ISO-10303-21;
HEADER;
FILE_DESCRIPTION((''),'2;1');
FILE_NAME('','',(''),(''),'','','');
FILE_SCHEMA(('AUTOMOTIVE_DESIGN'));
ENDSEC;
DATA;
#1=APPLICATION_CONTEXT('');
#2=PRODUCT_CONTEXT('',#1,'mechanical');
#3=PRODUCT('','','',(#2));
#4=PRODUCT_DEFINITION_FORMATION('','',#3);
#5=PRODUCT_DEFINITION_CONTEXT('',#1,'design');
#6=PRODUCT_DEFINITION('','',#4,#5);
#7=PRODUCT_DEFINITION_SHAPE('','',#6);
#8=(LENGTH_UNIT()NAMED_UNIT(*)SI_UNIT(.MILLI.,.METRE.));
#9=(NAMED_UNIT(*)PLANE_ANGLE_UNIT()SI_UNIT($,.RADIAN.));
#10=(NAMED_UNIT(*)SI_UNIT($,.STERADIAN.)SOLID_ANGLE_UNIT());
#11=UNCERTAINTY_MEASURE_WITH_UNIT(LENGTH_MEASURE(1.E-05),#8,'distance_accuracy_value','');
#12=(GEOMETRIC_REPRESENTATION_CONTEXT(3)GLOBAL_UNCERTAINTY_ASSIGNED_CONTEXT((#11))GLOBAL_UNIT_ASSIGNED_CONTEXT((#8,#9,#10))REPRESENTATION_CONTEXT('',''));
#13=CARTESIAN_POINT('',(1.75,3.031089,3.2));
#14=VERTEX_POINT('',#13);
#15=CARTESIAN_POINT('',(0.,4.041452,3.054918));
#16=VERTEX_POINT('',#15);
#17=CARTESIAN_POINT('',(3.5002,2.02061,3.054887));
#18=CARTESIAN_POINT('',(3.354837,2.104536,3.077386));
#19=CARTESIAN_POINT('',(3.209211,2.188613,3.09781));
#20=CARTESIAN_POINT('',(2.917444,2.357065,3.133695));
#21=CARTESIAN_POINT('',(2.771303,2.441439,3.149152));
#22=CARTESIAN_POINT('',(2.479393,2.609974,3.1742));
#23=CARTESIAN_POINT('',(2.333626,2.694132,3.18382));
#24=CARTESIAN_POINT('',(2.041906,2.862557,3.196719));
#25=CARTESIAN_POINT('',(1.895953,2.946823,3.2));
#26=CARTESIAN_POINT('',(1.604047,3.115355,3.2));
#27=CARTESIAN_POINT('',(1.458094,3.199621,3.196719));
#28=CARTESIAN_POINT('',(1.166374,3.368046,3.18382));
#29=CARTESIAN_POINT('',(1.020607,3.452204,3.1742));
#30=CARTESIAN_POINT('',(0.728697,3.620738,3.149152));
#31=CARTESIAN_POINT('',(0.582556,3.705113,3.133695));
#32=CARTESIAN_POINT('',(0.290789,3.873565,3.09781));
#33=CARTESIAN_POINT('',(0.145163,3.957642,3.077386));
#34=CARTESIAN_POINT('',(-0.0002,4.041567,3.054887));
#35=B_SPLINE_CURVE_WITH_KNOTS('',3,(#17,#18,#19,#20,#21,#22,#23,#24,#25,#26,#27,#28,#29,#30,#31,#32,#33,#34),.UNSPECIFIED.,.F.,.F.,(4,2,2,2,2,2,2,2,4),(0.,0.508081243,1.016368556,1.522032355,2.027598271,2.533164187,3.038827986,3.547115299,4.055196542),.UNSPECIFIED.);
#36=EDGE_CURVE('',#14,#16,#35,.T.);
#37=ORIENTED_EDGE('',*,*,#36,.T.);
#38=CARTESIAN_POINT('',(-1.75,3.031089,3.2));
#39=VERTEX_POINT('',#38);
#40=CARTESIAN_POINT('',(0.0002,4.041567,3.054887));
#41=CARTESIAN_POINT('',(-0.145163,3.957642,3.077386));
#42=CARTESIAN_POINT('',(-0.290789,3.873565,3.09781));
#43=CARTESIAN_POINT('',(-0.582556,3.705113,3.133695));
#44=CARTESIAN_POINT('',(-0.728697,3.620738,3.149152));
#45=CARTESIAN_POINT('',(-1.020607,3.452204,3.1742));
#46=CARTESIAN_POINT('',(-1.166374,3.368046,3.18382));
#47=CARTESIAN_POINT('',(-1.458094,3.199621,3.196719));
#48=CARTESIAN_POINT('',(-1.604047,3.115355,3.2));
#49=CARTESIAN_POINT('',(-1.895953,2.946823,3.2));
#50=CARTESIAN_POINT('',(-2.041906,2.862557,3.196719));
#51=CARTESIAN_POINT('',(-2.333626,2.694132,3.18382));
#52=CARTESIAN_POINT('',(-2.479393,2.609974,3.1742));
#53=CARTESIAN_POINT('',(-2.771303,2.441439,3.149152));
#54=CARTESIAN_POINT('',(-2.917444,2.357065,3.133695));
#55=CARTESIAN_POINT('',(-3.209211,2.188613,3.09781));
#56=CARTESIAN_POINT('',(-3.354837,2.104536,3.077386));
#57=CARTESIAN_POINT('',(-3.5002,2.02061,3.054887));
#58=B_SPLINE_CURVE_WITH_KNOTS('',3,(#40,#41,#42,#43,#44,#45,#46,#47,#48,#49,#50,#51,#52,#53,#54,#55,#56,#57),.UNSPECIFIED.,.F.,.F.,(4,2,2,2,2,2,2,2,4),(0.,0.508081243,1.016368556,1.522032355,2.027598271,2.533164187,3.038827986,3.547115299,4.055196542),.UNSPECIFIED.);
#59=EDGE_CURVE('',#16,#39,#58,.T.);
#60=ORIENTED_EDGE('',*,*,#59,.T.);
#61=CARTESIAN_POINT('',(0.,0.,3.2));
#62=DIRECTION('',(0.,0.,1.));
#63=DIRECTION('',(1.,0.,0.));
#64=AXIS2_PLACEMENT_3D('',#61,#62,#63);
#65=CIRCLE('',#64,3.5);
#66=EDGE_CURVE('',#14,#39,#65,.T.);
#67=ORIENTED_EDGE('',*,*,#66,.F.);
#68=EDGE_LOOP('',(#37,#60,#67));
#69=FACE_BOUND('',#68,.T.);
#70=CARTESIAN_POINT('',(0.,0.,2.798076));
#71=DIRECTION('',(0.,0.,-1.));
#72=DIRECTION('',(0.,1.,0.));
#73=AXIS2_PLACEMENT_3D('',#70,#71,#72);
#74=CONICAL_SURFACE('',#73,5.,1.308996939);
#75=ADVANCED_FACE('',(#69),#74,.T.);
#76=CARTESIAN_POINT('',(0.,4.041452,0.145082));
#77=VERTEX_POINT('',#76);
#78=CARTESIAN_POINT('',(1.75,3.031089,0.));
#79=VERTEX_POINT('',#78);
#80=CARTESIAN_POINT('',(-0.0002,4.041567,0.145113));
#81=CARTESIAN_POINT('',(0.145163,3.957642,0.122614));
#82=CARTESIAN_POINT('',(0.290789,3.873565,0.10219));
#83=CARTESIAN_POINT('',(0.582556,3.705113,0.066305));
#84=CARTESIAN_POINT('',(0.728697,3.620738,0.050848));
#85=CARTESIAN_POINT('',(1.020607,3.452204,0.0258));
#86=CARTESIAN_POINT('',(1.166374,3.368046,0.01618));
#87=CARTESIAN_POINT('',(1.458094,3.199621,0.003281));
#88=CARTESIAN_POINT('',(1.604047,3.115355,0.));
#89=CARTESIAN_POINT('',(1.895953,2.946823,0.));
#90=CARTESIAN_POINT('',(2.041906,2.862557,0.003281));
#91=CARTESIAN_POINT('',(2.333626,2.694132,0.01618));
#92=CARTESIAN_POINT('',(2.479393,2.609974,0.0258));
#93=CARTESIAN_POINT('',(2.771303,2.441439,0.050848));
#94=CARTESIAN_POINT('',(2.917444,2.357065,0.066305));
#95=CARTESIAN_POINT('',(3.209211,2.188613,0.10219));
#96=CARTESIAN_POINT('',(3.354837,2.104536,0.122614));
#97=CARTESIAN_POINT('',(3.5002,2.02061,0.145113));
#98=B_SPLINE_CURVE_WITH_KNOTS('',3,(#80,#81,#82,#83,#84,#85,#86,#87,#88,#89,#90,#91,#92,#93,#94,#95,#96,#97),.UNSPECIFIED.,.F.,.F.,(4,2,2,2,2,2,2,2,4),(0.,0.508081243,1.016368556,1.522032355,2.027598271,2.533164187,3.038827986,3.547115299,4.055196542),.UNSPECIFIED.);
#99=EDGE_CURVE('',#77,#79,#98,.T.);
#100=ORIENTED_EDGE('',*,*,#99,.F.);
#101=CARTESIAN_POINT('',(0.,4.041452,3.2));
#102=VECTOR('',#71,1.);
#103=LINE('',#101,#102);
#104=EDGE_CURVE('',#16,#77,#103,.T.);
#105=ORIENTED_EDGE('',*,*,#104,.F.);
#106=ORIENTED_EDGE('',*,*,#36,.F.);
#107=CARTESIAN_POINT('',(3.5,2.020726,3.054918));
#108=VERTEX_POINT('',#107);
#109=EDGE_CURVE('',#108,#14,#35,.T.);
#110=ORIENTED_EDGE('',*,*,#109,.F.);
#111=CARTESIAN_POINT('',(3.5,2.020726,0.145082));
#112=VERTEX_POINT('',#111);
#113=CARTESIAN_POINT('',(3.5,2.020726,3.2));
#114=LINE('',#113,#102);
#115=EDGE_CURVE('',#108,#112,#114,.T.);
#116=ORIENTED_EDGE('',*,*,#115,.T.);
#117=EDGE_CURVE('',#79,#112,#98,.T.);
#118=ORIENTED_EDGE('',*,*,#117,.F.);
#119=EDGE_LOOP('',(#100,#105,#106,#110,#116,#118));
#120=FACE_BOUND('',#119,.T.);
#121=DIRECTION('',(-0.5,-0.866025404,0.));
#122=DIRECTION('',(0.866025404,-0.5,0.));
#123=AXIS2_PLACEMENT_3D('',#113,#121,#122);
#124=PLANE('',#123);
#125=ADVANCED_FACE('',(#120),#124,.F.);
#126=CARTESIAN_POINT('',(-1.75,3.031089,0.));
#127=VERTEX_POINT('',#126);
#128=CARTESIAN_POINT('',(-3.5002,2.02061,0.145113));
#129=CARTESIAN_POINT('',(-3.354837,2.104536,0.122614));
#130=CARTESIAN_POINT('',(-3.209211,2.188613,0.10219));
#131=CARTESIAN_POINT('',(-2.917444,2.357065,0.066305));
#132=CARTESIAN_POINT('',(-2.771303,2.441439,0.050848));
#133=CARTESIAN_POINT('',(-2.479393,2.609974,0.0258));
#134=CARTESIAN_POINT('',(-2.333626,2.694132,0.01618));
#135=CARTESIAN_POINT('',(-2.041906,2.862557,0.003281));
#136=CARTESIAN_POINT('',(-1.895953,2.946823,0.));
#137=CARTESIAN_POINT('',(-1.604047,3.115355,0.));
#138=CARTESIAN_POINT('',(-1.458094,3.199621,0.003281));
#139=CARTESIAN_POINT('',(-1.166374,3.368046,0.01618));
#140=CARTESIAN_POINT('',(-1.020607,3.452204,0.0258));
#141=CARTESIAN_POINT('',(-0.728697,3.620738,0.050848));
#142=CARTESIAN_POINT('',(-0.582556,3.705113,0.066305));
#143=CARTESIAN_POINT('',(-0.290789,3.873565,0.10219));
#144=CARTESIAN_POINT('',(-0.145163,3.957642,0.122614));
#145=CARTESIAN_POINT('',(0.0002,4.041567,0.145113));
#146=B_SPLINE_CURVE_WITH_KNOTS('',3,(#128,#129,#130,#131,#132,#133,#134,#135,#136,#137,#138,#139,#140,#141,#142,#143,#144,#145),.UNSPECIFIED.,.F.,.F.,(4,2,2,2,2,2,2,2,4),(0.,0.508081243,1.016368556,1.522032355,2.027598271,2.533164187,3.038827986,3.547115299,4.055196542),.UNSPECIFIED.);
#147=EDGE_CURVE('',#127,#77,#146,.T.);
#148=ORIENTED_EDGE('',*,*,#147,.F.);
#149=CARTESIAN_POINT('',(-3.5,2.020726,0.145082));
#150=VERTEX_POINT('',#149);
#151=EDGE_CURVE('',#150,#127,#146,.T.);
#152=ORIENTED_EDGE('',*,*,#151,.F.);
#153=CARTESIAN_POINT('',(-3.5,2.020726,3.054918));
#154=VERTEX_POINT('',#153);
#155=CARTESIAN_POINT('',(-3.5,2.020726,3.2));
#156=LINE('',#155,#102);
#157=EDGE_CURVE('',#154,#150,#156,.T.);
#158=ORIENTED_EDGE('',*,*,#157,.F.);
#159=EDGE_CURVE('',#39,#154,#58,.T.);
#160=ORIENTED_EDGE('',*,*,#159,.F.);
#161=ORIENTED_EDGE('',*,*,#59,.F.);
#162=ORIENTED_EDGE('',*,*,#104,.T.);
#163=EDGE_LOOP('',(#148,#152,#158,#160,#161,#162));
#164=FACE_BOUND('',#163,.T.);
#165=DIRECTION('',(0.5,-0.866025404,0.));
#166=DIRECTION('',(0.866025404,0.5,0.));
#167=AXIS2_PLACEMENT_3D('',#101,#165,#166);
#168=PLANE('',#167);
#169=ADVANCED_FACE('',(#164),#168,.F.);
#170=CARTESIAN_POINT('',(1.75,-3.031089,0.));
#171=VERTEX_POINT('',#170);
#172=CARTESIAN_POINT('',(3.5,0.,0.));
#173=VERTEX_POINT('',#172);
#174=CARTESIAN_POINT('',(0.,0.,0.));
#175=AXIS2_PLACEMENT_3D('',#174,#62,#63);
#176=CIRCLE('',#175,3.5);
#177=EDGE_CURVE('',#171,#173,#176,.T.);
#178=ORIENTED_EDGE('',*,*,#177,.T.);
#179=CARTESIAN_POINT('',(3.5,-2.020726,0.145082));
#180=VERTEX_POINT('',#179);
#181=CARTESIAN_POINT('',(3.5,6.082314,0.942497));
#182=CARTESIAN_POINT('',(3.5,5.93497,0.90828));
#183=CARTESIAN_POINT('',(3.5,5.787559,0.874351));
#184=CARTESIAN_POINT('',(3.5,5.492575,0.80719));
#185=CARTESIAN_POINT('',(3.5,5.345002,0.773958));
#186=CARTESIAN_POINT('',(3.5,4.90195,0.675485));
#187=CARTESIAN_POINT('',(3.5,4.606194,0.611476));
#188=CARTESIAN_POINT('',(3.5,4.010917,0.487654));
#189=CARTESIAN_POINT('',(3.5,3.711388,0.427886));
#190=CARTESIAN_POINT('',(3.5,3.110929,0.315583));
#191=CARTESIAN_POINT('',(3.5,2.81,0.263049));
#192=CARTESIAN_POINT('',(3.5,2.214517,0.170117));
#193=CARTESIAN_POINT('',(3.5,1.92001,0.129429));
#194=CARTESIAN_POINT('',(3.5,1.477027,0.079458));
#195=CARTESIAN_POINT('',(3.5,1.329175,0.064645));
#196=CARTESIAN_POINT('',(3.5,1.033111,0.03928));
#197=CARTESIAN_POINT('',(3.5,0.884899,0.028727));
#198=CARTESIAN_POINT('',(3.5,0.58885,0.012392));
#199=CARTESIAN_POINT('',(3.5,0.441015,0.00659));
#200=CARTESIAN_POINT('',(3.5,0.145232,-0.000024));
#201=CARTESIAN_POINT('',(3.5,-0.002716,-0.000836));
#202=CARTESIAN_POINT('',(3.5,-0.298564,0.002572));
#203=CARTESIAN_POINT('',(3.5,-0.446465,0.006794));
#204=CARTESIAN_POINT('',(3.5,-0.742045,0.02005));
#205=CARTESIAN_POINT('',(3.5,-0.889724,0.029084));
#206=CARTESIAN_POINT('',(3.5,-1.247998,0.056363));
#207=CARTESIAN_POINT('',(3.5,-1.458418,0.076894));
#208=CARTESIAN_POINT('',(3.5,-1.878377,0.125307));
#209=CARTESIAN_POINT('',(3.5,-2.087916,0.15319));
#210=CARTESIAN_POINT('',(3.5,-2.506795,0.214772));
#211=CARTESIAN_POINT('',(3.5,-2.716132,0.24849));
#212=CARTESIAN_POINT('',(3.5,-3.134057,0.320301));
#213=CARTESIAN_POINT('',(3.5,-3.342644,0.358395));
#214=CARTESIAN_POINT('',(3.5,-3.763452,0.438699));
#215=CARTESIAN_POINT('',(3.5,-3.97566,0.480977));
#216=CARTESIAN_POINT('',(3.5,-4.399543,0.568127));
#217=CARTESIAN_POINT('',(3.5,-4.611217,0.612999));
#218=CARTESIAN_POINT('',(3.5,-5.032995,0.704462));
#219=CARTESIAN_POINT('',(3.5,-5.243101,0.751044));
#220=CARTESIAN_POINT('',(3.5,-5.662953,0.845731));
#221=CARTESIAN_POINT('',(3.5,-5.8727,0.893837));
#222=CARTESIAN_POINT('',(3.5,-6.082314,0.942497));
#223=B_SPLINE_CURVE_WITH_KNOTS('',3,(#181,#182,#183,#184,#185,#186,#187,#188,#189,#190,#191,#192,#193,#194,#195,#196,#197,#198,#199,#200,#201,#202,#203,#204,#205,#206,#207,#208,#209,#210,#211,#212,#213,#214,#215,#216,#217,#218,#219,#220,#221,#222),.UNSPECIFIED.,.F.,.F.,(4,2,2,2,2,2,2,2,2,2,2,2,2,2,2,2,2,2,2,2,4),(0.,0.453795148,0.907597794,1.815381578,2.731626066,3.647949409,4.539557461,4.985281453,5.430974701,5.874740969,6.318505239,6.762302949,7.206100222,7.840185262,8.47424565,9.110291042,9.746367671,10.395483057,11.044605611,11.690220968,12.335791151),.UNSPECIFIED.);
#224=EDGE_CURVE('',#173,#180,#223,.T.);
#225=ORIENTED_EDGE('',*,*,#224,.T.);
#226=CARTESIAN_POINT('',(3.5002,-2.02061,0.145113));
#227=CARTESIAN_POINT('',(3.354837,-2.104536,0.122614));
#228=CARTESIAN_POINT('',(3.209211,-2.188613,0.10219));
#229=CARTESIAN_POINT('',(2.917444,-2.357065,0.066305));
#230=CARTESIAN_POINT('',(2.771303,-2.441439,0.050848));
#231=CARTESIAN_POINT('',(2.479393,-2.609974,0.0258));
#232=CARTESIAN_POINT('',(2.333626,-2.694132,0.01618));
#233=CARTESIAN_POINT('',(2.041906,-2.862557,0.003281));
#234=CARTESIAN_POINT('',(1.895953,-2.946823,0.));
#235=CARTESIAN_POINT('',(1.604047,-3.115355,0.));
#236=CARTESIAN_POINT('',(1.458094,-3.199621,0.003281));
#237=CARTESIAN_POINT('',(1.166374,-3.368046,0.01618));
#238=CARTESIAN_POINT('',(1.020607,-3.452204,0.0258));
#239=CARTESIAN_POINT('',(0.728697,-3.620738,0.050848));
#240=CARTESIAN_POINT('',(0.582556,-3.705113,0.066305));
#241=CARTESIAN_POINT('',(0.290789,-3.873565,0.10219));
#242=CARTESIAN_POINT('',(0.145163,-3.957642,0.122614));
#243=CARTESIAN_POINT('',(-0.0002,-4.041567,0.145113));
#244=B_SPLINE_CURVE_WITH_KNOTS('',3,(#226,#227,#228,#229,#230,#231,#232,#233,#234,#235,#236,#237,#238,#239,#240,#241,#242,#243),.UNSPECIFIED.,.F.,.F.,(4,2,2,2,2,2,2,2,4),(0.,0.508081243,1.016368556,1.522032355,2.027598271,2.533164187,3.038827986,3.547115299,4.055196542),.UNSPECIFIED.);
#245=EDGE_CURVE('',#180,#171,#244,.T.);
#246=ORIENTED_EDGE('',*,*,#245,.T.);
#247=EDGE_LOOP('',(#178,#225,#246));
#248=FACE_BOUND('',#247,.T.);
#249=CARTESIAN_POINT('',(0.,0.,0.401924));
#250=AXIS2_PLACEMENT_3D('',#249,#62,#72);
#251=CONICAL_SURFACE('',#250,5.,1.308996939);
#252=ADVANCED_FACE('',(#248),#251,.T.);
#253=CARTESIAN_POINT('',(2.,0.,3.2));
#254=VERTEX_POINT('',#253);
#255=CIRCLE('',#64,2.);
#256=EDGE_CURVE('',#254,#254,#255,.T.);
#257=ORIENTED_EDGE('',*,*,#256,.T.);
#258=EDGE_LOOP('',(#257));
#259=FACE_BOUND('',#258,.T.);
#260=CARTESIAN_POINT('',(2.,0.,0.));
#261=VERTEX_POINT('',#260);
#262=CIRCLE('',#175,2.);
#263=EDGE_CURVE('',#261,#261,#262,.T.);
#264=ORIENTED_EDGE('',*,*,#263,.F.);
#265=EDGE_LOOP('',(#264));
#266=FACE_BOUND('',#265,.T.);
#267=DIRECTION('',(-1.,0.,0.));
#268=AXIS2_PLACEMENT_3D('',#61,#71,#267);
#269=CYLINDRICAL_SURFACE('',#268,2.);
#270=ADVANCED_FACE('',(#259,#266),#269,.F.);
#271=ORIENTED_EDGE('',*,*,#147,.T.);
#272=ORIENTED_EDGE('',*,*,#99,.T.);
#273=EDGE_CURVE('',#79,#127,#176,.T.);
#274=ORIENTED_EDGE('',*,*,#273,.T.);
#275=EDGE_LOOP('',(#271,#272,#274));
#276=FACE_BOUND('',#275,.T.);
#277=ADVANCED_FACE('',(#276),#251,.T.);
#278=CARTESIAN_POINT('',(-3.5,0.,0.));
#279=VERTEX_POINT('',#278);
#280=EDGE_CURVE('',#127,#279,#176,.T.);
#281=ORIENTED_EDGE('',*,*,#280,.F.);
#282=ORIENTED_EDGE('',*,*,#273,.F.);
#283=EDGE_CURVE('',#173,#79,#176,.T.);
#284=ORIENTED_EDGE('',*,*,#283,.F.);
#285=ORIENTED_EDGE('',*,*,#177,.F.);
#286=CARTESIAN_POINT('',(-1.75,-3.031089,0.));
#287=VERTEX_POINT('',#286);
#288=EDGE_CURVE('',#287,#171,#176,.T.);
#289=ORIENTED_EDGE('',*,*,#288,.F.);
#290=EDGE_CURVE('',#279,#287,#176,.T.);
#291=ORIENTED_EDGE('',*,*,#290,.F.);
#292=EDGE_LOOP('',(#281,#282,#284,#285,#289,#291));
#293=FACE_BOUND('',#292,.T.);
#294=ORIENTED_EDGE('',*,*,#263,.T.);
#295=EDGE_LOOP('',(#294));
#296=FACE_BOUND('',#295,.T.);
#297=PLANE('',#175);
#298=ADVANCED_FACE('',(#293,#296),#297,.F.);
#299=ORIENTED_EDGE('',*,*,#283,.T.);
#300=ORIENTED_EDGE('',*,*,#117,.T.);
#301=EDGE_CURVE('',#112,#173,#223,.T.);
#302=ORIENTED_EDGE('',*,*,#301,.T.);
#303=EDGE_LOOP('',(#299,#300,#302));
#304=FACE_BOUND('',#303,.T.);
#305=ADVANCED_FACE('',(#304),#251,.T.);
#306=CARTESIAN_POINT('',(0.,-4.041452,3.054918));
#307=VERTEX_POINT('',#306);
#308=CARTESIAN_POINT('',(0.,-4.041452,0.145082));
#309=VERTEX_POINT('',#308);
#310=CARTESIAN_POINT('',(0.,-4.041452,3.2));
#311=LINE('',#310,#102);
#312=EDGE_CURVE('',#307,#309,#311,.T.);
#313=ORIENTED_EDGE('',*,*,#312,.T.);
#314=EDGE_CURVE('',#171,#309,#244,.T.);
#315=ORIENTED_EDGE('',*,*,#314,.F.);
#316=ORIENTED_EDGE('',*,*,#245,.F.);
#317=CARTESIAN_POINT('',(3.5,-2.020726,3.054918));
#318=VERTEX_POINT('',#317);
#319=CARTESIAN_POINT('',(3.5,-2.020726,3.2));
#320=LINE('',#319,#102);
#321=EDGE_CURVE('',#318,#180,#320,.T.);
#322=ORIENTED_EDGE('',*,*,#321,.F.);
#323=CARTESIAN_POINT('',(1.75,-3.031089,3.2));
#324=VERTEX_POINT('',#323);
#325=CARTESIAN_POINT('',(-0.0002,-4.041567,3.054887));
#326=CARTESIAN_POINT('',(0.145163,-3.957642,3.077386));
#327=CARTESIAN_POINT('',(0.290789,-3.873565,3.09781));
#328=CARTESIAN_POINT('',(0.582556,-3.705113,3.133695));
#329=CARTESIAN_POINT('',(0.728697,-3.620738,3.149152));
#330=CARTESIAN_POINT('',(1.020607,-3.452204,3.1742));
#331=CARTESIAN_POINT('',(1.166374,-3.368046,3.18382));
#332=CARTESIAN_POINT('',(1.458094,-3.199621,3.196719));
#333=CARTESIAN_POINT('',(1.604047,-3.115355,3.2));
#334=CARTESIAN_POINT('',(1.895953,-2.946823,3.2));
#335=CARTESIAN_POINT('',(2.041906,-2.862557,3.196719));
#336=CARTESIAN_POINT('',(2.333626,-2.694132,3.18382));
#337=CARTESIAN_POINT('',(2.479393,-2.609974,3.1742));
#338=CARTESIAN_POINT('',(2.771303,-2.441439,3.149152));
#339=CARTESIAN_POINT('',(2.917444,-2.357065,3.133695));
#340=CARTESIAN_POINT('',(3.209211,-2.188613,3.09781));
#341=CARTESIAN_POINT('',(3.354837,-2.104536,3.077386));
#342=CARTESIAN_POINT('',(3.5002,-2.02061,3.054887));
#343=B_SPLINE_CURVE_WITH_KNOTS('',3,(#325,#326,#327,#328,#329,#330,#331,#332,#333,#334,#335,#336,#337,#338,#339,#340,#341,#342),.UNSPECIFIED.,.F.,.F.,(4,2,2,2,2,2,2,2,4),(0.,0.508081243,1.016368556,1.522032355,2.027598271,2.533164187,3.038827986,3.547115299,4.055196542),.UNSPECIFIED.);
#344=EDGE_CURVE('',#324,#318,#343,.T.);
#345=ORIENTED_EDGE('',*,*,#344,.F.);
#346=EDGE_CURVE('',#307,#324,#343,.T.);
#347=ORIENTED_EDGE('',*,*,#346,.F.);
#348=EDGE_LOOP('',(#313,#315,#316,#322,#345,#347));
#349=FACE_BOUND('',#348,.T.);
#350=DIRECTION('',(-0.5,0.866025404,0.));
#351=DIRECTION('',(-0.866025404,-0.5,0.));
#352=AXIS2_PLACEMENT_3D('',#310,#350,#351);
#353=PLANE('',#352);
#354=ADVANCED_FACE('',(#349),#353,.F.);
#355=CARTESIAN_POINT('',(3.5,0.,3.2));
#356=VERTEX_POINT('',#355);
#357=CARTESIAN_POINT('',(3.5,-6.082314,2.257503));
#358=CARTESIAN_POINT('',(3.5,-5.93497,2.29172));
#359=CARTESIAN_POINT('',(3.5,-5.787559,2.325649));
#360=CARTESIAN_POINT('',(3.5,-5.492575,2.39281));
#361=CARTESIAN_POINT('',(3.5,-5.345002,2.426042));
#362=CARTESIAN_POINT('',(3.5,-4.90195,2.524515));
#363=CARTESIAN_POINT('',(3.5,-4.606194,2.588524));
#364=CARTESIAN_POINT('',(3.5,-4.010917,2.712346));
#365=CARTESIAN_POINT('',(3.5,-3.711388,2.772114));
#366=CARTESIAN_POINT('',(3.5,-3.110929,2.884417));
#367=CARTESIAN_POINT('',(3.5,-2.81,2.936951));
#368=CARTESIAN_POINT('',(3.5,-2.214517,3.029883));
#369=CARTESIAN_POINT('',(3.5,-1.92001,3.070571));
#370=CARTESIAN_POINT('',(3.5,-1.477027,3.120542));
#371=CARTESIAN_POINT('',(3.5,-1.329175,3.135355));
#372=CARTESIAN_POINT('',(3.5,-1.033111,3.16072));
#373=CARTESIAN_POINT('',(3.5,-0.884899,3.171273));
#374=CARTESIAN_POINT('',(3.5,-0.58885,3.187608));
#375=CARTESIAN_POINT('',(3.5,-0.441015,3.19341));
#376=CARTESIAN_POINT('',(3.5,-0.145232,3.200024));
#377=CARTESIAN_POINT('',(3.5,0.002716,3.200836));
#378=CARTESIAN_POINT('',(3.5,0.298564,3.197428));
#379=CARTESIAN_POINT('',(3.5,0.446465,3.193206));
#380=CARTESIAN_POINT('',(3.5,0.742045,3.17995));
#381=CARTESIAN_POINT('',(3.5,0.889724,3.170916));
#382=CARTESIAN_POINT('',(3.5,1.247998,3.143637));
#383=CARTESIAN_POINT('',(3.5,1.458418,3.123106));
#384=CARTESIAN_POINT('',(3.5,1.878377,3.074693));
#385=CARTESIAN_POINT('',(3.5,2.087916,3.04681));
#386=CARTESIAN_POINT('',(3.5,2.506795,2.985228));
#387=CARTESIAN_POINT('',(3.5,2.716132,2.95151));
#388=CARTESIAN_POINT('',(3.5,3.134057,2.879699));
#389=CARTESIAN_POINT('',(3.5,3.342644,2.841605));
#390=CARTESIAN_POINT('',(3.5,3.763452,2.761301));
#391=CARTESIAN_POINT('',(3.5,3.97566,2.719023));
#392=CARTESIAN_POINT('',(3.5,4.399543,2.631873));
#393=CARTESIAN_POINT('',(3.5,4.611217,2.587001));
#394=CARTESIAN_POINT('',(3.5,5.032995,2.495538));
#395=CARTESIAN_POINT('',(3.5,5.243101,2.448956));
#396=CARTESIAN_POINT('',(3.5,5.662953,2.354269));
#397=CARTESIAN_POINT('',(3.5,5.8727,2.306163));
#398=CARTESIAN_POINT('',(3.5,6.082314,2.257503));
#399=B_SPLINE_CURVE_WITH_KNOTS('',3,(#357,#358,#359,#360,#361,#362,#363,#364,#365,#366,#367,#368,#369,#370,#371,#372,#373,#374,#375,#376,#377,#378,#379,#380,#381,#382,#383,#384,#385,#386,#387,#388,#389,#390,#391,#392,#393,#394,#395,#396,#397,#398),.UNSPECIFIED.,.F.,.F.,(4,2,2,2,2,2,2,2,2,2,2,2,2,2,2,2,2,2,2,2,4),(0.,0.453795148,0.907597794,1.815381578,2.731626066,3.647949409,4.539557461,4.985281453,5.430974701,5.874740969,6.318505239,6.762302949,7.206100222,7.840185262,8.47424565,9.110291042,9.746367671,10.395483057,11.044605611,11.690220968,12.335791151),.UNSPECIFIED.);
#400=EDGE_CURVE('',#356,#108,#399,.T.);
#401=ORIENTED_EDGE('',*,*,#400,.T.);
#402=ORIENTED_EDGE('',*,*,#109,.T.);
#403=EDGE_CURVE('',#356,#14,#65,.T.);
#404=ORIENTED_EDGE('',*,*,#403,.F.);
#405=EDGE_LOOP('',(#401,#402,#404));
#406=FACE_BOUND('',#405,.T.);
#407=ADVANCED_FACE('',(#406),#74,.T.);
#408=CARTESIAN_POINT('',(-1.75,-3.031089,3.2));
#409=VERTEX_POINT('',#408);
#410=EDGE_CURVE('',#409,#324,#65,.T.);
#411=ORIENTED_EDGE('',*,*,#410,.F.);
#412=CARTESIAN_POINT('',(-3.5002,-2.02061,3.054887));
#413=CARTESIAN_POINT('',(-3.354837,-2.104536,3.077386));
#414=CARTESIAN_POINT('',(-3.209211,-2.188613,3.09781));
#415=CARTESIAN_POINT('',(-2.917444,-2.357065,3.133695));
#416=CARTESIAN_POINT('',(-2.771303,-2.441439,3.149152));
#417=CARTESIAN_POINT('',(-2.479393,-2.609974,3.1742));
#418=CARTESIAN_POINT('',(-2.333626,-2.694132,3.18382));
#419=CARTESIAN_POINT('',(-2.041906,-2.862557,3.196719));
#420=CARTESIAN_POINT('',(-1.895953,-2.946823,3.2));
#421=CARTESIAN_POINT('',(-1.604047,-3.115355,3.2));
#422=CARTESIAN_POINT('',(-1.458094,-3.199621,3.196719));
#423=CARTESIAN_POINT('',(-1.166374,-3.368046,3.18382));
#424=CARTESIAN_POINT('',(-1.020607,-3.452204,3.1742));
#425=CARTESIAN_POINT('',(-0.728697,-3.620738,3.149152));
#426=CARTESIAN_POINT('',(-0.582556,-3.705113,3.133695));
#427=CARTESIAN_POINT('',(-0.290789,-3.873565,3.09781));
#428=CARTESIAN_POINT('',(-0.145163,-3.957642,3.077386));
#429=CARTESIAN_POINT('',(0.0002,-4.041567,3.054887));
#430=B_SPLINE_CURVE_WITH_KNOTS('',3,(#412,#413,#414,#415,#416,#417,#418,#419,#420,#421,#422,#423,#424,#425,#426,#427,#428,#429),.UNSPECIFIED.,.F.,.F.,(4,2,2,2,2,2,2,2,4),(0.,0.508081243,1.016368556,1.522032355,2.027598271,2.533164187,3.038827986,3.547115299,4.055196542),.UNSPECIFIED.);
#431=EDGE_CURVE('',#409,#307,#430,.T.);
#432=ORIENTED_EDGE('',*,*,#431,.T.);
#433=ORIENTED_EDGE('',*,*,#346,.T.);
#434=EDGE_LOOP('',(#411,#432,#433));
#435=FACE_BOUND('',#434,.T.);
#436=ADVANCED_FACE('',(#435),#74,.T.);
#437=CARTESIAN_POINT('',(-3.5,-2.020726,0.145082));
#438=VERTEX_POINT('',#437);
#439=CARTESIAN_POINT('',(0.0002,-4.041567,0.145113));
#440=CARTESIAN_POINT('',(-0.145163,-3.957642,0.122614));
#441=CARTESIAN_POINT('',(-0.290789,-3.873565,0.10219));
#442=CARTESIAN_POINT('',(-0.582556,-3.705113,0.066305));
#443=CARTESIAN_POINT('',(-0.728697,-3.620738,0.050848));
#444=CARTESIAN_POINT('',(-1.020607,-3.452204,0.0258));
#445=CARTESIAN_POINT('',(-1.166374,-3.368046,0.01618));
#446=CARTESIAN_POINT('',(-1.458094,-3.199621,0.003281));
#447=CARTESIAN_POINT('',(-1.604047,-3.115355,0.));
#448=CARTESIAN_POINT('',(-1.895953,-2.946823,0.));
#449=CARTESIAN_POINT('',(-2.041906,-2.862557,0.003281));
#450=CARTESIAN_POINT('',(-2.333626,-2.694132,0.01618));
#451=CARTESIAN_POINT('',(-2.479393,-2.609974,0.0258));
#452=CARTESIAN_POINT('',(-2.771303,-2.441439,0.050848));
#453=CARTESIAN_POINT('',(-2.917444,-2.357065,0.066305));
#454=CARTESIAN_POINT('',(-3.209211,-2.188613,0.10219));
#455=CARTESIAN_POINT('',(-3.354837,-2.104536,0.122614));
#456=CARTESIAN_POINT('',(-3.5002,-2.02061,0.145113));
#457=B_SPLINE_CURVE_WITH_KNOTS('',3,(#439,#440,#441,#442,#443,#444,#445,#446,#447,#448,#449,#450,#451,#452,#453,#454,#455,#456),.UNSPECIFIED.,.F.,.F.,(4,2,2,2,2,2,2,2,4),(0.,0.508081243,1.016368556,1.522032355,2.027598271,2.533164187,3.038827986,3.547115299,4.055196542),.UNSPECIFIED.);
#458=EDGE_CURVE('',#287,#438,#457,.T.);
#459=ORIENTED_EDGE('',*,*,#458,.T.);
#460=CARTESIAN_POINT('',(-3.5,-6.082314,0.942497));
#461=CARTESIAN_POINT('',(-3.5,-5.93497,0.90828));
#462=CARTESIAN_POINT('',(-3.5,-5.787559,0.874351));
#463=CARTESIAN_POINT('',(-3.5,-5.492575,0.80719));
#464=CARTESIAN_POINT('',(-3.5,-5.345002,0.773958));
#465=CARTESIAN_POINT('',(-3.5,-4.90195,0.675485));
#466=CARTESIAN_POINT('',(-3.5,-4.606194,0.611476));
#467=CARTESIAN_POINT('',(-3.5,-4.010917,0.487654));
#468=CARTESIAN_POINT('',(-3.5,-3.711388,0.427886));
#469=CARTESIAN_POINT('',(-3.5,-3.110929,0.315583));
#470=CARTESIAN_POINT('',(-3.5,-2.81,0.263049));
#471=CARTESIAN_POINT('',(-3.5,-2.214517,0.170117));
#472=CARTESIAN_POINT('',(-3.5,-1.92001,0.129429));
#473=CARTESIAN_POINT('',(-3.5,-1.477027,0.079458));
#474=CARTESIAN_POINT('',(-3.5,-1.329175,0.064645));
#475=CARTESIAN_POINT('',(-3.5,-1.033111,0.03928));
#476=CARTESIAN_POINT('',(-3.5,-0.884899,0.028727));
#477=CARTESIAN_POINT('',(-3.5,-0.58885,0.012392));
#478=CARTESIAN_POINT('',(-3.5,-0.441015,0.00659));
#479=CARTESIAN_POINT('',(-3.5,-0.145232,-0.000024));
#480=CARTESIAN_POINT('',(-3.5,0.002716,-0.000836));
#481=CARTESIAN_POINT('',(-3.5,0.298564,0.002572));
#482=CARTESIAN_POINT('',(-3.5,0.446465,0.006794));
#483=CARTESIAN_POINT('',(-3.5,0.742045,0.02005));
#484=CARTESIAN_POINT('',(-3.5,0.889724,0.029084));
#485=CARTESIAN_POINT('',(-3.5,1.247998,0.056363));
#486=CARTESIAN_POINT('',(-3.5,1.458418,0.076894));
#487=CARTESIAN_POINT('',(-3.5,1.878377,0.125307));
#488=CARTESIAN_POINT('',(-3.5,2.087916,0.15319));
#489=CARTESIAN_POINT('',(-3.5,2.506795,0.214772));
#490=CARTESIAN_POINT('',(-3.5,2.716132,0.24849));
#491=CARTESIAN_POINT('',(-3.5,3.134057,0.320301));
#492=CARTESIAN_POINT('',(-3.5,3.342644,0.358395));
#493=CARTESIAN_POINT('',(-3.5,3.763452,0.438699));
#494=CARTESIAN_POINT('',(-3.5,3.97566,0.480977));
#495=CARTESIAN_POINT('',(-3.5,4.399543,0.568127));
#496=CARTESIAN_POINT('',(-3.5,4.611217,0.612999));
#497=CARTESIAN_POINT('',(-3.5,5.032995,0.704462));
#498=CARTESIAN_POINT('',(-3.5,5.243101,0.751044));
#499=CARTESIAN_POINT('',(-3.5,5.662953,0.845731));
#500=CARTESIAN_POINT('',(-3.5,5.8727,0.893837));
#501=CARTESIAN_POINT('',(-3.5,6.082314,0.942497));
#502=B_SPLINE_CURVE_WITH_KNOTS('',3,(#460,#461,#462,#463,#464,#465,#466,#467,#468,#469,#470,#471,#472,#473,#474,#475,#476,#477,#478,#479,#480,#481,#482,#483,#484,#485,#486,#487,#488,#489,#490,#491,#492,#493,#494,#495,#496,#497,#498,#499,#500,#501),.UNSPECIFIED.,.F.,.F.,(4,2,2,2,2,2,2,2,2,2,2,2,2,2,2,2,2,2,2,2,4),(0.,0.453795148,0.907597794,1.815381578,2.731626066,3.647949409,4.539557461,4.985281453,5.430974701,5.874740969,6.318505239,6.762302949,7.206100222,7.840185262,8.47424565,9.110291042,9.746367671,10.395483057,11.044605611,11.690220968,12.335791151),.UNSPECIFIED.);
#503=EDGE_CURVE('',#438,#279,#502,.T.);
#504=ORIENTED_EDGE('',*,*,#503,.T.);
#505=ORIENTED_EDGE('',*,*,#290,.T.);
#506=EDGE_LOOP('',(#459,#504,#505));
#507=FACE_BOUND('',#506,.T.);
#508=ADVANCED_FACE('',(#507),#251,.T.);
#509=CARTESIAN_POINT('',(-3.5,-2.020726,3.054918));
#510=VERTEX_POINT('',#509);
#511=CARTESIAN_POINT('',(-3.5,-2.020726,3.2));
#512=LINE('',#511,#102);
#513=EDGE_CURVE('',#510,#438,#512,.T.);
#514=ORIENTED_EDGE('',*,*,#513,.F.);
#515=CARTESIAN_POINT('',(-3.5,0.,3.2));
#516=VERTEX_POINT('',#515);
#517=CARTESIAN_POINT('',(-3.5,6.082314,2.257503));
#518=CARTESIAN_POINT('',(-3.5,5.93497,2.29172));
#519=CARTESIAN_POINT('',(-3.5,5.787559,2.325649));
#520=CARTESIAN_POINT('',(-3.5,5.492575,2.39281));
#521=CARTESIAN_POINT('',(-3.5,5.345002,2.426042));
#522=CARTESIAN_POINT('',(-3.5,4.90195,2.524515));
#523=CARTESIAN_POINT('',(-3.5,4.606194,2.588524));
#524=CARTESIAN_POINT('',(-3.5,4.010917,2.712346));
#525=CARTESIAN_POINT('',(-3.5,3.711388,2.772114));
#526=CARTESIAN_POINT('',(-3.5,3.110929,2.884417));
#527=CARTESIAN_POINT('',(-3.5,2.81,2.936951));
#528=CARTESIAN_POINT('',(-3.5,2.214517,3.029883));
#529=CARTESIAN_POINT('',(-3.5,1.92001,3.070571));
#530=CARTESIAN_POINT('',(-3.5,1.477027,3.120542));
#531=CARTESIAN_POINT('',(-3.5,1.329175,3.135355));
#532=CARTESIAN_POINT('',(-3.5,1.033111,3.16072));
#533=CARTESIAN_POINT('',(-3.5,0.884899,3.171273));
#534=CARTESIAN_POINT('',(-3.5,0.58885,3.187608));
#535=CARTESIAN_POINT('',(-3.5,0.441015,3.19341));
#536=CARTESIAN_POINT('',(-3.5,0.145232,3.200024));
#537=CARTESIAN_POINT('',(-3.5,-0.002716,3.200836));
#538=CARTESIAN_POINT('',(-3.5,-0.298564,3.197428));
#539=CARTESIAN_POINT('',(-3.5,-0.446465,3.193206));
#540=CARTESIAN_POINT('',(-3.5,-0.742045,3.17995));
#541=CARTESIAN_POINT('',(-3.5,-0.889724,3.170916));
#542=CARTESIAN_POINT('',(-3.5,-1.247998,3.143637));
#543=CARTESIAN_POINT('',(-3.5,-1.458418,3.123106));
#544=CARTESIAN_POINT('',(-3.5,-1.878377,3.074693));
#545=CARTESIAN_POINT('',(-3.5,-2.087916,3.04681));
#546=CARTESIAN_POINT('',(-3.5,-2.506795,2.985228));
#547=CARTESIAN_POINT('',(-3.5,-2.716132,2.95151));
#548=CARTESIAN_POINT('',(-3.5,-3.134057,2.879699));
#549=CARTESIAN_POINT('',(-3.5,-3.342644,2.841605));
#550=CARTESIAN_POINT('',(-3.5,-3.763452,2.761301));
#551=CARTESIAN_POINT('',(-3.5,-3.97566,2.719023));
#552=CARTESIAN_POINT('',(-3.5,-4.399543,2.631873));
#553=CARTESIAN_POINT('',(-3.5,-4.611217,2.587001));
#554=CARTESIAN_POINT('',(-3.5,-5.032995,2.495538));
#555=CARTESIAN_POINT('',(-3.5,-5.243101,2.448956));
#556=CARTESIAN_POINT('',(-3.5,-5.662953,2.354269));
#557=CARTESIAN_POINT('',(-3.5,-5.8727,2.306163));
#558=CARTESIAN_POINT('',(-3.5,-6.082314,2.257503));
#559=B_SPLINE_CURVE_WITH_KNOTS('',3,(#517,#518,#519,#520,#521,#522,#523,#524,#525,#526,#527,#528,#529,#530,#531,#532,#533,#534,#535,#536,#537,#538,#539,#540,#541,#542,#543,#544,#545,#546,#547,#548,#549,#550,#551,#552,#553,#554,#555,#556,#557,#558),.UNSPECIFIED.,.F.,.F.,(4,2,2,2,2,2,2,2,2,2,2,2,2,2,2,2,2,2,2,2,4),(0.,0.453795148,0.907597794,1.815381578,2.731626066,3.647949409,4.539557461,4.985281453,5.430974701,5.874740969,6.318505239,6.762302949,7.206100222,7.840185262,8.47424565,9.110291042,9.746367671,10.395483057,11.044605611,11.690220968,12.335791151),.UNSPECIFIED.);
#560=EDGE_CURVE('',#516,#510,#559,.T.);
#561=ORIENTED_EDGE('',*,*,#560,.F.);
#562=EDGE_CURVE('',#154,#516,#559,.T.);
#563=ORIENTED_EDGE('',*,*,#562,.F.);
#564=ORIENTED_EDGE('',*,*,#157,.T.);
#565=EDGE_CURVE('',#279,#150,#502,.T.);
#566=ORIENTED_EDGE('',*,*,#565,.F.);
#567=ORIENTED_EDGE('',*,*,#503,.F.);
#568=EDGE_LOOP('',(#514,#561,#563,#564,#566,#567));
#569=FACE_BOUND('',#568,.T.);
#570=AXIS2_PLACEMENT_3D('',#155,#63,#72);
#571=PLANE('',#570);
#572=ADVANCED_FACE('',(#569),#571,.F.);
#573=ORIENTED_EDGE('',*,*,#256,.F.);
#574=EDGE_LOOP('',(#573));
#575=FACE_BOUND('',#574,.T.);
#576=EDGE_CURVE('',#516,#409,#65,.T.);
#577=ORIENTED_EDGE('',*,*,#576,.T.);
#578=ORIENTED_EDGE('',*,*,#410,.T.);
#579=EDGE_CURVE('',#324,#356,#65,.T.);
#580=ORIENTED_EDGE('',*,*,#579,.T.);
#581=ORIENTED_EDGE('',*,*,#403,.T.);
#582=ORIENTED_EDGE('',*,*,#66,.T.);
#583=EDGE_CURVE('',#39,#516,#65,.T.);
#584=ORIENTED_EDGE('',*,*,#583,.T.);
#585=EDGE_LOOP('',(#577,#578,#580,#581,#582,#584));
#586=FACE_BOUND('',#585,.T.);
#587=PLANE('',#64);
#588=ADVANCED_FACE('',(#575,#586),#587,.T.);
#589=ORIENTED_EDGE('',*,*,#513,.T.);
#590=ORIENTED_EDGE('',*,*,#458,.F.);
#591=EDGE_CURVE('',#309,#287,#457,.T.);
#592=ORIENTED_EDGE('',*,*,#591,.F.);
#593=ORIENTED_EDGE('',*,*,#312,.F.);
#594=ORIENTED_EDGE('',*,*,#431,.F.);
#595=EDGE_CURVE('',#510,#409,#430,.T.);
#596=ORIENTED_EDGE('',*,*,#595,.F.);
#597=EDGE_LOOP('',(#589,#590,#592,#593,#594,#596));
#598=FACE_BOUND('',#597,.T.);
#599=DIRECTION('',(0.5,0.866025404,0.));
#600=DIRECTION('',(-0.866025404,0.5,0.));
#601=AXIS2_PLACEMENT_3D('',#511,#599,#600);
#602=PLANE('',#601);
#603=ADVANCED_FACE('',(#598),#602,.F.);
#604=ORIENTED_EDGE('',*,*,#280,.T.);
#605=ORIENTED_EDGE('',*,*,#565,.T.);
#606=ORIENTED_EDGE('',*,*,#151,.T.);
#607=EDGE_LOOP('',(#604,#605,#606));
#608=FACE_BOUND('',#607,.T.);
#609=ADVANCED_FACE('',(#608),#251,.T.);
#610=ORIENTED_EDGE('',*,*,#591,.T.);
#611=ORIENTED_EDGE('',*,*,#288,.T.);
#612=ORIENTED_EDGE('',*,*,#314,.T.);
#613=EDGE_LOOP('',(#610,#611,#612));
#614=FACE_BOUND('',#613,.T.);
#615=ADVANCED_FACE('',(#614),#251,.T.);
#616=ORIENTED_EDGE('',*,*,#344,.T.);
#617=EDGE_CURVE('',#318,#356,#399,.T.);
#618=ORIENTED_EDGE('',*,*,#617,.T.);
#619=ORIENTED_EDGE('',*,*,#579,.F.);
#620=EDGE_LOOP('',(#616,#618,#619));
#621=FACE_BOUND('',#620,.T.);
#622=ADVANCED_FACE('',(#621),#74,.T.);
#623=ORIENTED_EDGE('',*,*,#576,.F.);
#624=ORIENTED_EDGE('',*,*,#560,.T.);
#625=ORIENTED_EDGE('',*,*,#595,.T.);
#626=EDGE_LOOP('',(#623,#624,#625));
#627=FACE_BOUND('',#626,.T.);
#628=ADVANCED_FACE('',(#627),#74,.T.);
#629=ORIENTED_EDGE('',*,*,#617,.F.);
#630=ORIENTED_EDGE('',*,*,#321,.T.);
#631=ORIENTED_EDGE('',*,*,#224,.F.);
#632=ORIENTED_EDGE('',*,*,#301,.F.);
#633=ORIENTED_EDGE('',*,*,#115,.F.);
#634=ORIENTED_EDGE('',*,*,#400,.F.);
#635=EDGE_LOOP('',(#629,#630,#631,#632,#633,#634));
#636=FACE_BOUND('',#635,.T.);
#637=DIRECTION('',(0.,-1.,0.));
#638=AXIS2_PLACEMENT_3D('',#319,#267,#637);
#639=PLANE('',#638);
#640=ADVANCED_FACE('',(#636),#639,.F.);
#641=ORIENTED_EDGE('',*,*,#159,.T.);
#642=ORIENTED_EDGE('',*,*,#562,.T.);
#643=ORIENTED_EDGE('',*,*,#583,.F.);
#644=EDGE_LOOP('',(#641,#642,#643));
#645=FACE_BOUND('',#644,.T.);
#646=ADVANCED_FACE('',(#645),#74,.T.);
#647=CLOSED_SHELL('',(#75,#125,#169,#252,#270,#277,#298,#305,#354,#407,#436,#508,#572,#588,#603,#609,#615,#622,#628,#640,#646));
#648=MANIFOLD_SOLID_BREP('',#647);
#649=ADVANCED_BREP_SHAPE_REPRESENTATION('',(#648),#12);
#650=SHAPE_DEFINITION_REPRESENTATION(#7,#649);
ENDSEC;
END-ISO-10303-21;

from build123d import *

# Parameters (mm, degrees)
SKETCH1_R           = 2
BOSS_EXTRUDE1_DEPTH = 3.2


with BuildPart() as part:
    # Sketch1 → Boss-Extrude1 (new body)
    with BuildSketch(Plane.XY):
        Polygon((0, 4.041451884), (-3.5, 2.020725942), (-3.5, -2.020725942), (0, -4.041451884), (3.5, -2.020725942), (3.5, 2.020725942), align=None)
        Circle(SKETCH1_R, mode=Mode.SUBTRACT)
    extrude(amount=BOSS_EXTRUDE1_DEPTH)

    # Sketch2 → Cut-Revolve2 (revolve, cut)
    with BuildSketch(Plane(origin=(0, 0, 0), x_dir=(0, 0, -1), z_dir=(0, 1, 0))):
        Polygon((-2.798076211, -5), (-4.003847577, -0.5), (-4.003847577, -5), align=None)
    cut_revolve2 = revolve(axis=Axis((0, 0, -2.80878951), (0, 0, 1)), mode=Mode.SUBTRACT)

    # Mirror1: Cut-Revolve2 across plane
    add(cut_revolve2.mirror(Plane.XY.offset(1.6)), mode=Mode.SUBTRACT)


solid = part.part
